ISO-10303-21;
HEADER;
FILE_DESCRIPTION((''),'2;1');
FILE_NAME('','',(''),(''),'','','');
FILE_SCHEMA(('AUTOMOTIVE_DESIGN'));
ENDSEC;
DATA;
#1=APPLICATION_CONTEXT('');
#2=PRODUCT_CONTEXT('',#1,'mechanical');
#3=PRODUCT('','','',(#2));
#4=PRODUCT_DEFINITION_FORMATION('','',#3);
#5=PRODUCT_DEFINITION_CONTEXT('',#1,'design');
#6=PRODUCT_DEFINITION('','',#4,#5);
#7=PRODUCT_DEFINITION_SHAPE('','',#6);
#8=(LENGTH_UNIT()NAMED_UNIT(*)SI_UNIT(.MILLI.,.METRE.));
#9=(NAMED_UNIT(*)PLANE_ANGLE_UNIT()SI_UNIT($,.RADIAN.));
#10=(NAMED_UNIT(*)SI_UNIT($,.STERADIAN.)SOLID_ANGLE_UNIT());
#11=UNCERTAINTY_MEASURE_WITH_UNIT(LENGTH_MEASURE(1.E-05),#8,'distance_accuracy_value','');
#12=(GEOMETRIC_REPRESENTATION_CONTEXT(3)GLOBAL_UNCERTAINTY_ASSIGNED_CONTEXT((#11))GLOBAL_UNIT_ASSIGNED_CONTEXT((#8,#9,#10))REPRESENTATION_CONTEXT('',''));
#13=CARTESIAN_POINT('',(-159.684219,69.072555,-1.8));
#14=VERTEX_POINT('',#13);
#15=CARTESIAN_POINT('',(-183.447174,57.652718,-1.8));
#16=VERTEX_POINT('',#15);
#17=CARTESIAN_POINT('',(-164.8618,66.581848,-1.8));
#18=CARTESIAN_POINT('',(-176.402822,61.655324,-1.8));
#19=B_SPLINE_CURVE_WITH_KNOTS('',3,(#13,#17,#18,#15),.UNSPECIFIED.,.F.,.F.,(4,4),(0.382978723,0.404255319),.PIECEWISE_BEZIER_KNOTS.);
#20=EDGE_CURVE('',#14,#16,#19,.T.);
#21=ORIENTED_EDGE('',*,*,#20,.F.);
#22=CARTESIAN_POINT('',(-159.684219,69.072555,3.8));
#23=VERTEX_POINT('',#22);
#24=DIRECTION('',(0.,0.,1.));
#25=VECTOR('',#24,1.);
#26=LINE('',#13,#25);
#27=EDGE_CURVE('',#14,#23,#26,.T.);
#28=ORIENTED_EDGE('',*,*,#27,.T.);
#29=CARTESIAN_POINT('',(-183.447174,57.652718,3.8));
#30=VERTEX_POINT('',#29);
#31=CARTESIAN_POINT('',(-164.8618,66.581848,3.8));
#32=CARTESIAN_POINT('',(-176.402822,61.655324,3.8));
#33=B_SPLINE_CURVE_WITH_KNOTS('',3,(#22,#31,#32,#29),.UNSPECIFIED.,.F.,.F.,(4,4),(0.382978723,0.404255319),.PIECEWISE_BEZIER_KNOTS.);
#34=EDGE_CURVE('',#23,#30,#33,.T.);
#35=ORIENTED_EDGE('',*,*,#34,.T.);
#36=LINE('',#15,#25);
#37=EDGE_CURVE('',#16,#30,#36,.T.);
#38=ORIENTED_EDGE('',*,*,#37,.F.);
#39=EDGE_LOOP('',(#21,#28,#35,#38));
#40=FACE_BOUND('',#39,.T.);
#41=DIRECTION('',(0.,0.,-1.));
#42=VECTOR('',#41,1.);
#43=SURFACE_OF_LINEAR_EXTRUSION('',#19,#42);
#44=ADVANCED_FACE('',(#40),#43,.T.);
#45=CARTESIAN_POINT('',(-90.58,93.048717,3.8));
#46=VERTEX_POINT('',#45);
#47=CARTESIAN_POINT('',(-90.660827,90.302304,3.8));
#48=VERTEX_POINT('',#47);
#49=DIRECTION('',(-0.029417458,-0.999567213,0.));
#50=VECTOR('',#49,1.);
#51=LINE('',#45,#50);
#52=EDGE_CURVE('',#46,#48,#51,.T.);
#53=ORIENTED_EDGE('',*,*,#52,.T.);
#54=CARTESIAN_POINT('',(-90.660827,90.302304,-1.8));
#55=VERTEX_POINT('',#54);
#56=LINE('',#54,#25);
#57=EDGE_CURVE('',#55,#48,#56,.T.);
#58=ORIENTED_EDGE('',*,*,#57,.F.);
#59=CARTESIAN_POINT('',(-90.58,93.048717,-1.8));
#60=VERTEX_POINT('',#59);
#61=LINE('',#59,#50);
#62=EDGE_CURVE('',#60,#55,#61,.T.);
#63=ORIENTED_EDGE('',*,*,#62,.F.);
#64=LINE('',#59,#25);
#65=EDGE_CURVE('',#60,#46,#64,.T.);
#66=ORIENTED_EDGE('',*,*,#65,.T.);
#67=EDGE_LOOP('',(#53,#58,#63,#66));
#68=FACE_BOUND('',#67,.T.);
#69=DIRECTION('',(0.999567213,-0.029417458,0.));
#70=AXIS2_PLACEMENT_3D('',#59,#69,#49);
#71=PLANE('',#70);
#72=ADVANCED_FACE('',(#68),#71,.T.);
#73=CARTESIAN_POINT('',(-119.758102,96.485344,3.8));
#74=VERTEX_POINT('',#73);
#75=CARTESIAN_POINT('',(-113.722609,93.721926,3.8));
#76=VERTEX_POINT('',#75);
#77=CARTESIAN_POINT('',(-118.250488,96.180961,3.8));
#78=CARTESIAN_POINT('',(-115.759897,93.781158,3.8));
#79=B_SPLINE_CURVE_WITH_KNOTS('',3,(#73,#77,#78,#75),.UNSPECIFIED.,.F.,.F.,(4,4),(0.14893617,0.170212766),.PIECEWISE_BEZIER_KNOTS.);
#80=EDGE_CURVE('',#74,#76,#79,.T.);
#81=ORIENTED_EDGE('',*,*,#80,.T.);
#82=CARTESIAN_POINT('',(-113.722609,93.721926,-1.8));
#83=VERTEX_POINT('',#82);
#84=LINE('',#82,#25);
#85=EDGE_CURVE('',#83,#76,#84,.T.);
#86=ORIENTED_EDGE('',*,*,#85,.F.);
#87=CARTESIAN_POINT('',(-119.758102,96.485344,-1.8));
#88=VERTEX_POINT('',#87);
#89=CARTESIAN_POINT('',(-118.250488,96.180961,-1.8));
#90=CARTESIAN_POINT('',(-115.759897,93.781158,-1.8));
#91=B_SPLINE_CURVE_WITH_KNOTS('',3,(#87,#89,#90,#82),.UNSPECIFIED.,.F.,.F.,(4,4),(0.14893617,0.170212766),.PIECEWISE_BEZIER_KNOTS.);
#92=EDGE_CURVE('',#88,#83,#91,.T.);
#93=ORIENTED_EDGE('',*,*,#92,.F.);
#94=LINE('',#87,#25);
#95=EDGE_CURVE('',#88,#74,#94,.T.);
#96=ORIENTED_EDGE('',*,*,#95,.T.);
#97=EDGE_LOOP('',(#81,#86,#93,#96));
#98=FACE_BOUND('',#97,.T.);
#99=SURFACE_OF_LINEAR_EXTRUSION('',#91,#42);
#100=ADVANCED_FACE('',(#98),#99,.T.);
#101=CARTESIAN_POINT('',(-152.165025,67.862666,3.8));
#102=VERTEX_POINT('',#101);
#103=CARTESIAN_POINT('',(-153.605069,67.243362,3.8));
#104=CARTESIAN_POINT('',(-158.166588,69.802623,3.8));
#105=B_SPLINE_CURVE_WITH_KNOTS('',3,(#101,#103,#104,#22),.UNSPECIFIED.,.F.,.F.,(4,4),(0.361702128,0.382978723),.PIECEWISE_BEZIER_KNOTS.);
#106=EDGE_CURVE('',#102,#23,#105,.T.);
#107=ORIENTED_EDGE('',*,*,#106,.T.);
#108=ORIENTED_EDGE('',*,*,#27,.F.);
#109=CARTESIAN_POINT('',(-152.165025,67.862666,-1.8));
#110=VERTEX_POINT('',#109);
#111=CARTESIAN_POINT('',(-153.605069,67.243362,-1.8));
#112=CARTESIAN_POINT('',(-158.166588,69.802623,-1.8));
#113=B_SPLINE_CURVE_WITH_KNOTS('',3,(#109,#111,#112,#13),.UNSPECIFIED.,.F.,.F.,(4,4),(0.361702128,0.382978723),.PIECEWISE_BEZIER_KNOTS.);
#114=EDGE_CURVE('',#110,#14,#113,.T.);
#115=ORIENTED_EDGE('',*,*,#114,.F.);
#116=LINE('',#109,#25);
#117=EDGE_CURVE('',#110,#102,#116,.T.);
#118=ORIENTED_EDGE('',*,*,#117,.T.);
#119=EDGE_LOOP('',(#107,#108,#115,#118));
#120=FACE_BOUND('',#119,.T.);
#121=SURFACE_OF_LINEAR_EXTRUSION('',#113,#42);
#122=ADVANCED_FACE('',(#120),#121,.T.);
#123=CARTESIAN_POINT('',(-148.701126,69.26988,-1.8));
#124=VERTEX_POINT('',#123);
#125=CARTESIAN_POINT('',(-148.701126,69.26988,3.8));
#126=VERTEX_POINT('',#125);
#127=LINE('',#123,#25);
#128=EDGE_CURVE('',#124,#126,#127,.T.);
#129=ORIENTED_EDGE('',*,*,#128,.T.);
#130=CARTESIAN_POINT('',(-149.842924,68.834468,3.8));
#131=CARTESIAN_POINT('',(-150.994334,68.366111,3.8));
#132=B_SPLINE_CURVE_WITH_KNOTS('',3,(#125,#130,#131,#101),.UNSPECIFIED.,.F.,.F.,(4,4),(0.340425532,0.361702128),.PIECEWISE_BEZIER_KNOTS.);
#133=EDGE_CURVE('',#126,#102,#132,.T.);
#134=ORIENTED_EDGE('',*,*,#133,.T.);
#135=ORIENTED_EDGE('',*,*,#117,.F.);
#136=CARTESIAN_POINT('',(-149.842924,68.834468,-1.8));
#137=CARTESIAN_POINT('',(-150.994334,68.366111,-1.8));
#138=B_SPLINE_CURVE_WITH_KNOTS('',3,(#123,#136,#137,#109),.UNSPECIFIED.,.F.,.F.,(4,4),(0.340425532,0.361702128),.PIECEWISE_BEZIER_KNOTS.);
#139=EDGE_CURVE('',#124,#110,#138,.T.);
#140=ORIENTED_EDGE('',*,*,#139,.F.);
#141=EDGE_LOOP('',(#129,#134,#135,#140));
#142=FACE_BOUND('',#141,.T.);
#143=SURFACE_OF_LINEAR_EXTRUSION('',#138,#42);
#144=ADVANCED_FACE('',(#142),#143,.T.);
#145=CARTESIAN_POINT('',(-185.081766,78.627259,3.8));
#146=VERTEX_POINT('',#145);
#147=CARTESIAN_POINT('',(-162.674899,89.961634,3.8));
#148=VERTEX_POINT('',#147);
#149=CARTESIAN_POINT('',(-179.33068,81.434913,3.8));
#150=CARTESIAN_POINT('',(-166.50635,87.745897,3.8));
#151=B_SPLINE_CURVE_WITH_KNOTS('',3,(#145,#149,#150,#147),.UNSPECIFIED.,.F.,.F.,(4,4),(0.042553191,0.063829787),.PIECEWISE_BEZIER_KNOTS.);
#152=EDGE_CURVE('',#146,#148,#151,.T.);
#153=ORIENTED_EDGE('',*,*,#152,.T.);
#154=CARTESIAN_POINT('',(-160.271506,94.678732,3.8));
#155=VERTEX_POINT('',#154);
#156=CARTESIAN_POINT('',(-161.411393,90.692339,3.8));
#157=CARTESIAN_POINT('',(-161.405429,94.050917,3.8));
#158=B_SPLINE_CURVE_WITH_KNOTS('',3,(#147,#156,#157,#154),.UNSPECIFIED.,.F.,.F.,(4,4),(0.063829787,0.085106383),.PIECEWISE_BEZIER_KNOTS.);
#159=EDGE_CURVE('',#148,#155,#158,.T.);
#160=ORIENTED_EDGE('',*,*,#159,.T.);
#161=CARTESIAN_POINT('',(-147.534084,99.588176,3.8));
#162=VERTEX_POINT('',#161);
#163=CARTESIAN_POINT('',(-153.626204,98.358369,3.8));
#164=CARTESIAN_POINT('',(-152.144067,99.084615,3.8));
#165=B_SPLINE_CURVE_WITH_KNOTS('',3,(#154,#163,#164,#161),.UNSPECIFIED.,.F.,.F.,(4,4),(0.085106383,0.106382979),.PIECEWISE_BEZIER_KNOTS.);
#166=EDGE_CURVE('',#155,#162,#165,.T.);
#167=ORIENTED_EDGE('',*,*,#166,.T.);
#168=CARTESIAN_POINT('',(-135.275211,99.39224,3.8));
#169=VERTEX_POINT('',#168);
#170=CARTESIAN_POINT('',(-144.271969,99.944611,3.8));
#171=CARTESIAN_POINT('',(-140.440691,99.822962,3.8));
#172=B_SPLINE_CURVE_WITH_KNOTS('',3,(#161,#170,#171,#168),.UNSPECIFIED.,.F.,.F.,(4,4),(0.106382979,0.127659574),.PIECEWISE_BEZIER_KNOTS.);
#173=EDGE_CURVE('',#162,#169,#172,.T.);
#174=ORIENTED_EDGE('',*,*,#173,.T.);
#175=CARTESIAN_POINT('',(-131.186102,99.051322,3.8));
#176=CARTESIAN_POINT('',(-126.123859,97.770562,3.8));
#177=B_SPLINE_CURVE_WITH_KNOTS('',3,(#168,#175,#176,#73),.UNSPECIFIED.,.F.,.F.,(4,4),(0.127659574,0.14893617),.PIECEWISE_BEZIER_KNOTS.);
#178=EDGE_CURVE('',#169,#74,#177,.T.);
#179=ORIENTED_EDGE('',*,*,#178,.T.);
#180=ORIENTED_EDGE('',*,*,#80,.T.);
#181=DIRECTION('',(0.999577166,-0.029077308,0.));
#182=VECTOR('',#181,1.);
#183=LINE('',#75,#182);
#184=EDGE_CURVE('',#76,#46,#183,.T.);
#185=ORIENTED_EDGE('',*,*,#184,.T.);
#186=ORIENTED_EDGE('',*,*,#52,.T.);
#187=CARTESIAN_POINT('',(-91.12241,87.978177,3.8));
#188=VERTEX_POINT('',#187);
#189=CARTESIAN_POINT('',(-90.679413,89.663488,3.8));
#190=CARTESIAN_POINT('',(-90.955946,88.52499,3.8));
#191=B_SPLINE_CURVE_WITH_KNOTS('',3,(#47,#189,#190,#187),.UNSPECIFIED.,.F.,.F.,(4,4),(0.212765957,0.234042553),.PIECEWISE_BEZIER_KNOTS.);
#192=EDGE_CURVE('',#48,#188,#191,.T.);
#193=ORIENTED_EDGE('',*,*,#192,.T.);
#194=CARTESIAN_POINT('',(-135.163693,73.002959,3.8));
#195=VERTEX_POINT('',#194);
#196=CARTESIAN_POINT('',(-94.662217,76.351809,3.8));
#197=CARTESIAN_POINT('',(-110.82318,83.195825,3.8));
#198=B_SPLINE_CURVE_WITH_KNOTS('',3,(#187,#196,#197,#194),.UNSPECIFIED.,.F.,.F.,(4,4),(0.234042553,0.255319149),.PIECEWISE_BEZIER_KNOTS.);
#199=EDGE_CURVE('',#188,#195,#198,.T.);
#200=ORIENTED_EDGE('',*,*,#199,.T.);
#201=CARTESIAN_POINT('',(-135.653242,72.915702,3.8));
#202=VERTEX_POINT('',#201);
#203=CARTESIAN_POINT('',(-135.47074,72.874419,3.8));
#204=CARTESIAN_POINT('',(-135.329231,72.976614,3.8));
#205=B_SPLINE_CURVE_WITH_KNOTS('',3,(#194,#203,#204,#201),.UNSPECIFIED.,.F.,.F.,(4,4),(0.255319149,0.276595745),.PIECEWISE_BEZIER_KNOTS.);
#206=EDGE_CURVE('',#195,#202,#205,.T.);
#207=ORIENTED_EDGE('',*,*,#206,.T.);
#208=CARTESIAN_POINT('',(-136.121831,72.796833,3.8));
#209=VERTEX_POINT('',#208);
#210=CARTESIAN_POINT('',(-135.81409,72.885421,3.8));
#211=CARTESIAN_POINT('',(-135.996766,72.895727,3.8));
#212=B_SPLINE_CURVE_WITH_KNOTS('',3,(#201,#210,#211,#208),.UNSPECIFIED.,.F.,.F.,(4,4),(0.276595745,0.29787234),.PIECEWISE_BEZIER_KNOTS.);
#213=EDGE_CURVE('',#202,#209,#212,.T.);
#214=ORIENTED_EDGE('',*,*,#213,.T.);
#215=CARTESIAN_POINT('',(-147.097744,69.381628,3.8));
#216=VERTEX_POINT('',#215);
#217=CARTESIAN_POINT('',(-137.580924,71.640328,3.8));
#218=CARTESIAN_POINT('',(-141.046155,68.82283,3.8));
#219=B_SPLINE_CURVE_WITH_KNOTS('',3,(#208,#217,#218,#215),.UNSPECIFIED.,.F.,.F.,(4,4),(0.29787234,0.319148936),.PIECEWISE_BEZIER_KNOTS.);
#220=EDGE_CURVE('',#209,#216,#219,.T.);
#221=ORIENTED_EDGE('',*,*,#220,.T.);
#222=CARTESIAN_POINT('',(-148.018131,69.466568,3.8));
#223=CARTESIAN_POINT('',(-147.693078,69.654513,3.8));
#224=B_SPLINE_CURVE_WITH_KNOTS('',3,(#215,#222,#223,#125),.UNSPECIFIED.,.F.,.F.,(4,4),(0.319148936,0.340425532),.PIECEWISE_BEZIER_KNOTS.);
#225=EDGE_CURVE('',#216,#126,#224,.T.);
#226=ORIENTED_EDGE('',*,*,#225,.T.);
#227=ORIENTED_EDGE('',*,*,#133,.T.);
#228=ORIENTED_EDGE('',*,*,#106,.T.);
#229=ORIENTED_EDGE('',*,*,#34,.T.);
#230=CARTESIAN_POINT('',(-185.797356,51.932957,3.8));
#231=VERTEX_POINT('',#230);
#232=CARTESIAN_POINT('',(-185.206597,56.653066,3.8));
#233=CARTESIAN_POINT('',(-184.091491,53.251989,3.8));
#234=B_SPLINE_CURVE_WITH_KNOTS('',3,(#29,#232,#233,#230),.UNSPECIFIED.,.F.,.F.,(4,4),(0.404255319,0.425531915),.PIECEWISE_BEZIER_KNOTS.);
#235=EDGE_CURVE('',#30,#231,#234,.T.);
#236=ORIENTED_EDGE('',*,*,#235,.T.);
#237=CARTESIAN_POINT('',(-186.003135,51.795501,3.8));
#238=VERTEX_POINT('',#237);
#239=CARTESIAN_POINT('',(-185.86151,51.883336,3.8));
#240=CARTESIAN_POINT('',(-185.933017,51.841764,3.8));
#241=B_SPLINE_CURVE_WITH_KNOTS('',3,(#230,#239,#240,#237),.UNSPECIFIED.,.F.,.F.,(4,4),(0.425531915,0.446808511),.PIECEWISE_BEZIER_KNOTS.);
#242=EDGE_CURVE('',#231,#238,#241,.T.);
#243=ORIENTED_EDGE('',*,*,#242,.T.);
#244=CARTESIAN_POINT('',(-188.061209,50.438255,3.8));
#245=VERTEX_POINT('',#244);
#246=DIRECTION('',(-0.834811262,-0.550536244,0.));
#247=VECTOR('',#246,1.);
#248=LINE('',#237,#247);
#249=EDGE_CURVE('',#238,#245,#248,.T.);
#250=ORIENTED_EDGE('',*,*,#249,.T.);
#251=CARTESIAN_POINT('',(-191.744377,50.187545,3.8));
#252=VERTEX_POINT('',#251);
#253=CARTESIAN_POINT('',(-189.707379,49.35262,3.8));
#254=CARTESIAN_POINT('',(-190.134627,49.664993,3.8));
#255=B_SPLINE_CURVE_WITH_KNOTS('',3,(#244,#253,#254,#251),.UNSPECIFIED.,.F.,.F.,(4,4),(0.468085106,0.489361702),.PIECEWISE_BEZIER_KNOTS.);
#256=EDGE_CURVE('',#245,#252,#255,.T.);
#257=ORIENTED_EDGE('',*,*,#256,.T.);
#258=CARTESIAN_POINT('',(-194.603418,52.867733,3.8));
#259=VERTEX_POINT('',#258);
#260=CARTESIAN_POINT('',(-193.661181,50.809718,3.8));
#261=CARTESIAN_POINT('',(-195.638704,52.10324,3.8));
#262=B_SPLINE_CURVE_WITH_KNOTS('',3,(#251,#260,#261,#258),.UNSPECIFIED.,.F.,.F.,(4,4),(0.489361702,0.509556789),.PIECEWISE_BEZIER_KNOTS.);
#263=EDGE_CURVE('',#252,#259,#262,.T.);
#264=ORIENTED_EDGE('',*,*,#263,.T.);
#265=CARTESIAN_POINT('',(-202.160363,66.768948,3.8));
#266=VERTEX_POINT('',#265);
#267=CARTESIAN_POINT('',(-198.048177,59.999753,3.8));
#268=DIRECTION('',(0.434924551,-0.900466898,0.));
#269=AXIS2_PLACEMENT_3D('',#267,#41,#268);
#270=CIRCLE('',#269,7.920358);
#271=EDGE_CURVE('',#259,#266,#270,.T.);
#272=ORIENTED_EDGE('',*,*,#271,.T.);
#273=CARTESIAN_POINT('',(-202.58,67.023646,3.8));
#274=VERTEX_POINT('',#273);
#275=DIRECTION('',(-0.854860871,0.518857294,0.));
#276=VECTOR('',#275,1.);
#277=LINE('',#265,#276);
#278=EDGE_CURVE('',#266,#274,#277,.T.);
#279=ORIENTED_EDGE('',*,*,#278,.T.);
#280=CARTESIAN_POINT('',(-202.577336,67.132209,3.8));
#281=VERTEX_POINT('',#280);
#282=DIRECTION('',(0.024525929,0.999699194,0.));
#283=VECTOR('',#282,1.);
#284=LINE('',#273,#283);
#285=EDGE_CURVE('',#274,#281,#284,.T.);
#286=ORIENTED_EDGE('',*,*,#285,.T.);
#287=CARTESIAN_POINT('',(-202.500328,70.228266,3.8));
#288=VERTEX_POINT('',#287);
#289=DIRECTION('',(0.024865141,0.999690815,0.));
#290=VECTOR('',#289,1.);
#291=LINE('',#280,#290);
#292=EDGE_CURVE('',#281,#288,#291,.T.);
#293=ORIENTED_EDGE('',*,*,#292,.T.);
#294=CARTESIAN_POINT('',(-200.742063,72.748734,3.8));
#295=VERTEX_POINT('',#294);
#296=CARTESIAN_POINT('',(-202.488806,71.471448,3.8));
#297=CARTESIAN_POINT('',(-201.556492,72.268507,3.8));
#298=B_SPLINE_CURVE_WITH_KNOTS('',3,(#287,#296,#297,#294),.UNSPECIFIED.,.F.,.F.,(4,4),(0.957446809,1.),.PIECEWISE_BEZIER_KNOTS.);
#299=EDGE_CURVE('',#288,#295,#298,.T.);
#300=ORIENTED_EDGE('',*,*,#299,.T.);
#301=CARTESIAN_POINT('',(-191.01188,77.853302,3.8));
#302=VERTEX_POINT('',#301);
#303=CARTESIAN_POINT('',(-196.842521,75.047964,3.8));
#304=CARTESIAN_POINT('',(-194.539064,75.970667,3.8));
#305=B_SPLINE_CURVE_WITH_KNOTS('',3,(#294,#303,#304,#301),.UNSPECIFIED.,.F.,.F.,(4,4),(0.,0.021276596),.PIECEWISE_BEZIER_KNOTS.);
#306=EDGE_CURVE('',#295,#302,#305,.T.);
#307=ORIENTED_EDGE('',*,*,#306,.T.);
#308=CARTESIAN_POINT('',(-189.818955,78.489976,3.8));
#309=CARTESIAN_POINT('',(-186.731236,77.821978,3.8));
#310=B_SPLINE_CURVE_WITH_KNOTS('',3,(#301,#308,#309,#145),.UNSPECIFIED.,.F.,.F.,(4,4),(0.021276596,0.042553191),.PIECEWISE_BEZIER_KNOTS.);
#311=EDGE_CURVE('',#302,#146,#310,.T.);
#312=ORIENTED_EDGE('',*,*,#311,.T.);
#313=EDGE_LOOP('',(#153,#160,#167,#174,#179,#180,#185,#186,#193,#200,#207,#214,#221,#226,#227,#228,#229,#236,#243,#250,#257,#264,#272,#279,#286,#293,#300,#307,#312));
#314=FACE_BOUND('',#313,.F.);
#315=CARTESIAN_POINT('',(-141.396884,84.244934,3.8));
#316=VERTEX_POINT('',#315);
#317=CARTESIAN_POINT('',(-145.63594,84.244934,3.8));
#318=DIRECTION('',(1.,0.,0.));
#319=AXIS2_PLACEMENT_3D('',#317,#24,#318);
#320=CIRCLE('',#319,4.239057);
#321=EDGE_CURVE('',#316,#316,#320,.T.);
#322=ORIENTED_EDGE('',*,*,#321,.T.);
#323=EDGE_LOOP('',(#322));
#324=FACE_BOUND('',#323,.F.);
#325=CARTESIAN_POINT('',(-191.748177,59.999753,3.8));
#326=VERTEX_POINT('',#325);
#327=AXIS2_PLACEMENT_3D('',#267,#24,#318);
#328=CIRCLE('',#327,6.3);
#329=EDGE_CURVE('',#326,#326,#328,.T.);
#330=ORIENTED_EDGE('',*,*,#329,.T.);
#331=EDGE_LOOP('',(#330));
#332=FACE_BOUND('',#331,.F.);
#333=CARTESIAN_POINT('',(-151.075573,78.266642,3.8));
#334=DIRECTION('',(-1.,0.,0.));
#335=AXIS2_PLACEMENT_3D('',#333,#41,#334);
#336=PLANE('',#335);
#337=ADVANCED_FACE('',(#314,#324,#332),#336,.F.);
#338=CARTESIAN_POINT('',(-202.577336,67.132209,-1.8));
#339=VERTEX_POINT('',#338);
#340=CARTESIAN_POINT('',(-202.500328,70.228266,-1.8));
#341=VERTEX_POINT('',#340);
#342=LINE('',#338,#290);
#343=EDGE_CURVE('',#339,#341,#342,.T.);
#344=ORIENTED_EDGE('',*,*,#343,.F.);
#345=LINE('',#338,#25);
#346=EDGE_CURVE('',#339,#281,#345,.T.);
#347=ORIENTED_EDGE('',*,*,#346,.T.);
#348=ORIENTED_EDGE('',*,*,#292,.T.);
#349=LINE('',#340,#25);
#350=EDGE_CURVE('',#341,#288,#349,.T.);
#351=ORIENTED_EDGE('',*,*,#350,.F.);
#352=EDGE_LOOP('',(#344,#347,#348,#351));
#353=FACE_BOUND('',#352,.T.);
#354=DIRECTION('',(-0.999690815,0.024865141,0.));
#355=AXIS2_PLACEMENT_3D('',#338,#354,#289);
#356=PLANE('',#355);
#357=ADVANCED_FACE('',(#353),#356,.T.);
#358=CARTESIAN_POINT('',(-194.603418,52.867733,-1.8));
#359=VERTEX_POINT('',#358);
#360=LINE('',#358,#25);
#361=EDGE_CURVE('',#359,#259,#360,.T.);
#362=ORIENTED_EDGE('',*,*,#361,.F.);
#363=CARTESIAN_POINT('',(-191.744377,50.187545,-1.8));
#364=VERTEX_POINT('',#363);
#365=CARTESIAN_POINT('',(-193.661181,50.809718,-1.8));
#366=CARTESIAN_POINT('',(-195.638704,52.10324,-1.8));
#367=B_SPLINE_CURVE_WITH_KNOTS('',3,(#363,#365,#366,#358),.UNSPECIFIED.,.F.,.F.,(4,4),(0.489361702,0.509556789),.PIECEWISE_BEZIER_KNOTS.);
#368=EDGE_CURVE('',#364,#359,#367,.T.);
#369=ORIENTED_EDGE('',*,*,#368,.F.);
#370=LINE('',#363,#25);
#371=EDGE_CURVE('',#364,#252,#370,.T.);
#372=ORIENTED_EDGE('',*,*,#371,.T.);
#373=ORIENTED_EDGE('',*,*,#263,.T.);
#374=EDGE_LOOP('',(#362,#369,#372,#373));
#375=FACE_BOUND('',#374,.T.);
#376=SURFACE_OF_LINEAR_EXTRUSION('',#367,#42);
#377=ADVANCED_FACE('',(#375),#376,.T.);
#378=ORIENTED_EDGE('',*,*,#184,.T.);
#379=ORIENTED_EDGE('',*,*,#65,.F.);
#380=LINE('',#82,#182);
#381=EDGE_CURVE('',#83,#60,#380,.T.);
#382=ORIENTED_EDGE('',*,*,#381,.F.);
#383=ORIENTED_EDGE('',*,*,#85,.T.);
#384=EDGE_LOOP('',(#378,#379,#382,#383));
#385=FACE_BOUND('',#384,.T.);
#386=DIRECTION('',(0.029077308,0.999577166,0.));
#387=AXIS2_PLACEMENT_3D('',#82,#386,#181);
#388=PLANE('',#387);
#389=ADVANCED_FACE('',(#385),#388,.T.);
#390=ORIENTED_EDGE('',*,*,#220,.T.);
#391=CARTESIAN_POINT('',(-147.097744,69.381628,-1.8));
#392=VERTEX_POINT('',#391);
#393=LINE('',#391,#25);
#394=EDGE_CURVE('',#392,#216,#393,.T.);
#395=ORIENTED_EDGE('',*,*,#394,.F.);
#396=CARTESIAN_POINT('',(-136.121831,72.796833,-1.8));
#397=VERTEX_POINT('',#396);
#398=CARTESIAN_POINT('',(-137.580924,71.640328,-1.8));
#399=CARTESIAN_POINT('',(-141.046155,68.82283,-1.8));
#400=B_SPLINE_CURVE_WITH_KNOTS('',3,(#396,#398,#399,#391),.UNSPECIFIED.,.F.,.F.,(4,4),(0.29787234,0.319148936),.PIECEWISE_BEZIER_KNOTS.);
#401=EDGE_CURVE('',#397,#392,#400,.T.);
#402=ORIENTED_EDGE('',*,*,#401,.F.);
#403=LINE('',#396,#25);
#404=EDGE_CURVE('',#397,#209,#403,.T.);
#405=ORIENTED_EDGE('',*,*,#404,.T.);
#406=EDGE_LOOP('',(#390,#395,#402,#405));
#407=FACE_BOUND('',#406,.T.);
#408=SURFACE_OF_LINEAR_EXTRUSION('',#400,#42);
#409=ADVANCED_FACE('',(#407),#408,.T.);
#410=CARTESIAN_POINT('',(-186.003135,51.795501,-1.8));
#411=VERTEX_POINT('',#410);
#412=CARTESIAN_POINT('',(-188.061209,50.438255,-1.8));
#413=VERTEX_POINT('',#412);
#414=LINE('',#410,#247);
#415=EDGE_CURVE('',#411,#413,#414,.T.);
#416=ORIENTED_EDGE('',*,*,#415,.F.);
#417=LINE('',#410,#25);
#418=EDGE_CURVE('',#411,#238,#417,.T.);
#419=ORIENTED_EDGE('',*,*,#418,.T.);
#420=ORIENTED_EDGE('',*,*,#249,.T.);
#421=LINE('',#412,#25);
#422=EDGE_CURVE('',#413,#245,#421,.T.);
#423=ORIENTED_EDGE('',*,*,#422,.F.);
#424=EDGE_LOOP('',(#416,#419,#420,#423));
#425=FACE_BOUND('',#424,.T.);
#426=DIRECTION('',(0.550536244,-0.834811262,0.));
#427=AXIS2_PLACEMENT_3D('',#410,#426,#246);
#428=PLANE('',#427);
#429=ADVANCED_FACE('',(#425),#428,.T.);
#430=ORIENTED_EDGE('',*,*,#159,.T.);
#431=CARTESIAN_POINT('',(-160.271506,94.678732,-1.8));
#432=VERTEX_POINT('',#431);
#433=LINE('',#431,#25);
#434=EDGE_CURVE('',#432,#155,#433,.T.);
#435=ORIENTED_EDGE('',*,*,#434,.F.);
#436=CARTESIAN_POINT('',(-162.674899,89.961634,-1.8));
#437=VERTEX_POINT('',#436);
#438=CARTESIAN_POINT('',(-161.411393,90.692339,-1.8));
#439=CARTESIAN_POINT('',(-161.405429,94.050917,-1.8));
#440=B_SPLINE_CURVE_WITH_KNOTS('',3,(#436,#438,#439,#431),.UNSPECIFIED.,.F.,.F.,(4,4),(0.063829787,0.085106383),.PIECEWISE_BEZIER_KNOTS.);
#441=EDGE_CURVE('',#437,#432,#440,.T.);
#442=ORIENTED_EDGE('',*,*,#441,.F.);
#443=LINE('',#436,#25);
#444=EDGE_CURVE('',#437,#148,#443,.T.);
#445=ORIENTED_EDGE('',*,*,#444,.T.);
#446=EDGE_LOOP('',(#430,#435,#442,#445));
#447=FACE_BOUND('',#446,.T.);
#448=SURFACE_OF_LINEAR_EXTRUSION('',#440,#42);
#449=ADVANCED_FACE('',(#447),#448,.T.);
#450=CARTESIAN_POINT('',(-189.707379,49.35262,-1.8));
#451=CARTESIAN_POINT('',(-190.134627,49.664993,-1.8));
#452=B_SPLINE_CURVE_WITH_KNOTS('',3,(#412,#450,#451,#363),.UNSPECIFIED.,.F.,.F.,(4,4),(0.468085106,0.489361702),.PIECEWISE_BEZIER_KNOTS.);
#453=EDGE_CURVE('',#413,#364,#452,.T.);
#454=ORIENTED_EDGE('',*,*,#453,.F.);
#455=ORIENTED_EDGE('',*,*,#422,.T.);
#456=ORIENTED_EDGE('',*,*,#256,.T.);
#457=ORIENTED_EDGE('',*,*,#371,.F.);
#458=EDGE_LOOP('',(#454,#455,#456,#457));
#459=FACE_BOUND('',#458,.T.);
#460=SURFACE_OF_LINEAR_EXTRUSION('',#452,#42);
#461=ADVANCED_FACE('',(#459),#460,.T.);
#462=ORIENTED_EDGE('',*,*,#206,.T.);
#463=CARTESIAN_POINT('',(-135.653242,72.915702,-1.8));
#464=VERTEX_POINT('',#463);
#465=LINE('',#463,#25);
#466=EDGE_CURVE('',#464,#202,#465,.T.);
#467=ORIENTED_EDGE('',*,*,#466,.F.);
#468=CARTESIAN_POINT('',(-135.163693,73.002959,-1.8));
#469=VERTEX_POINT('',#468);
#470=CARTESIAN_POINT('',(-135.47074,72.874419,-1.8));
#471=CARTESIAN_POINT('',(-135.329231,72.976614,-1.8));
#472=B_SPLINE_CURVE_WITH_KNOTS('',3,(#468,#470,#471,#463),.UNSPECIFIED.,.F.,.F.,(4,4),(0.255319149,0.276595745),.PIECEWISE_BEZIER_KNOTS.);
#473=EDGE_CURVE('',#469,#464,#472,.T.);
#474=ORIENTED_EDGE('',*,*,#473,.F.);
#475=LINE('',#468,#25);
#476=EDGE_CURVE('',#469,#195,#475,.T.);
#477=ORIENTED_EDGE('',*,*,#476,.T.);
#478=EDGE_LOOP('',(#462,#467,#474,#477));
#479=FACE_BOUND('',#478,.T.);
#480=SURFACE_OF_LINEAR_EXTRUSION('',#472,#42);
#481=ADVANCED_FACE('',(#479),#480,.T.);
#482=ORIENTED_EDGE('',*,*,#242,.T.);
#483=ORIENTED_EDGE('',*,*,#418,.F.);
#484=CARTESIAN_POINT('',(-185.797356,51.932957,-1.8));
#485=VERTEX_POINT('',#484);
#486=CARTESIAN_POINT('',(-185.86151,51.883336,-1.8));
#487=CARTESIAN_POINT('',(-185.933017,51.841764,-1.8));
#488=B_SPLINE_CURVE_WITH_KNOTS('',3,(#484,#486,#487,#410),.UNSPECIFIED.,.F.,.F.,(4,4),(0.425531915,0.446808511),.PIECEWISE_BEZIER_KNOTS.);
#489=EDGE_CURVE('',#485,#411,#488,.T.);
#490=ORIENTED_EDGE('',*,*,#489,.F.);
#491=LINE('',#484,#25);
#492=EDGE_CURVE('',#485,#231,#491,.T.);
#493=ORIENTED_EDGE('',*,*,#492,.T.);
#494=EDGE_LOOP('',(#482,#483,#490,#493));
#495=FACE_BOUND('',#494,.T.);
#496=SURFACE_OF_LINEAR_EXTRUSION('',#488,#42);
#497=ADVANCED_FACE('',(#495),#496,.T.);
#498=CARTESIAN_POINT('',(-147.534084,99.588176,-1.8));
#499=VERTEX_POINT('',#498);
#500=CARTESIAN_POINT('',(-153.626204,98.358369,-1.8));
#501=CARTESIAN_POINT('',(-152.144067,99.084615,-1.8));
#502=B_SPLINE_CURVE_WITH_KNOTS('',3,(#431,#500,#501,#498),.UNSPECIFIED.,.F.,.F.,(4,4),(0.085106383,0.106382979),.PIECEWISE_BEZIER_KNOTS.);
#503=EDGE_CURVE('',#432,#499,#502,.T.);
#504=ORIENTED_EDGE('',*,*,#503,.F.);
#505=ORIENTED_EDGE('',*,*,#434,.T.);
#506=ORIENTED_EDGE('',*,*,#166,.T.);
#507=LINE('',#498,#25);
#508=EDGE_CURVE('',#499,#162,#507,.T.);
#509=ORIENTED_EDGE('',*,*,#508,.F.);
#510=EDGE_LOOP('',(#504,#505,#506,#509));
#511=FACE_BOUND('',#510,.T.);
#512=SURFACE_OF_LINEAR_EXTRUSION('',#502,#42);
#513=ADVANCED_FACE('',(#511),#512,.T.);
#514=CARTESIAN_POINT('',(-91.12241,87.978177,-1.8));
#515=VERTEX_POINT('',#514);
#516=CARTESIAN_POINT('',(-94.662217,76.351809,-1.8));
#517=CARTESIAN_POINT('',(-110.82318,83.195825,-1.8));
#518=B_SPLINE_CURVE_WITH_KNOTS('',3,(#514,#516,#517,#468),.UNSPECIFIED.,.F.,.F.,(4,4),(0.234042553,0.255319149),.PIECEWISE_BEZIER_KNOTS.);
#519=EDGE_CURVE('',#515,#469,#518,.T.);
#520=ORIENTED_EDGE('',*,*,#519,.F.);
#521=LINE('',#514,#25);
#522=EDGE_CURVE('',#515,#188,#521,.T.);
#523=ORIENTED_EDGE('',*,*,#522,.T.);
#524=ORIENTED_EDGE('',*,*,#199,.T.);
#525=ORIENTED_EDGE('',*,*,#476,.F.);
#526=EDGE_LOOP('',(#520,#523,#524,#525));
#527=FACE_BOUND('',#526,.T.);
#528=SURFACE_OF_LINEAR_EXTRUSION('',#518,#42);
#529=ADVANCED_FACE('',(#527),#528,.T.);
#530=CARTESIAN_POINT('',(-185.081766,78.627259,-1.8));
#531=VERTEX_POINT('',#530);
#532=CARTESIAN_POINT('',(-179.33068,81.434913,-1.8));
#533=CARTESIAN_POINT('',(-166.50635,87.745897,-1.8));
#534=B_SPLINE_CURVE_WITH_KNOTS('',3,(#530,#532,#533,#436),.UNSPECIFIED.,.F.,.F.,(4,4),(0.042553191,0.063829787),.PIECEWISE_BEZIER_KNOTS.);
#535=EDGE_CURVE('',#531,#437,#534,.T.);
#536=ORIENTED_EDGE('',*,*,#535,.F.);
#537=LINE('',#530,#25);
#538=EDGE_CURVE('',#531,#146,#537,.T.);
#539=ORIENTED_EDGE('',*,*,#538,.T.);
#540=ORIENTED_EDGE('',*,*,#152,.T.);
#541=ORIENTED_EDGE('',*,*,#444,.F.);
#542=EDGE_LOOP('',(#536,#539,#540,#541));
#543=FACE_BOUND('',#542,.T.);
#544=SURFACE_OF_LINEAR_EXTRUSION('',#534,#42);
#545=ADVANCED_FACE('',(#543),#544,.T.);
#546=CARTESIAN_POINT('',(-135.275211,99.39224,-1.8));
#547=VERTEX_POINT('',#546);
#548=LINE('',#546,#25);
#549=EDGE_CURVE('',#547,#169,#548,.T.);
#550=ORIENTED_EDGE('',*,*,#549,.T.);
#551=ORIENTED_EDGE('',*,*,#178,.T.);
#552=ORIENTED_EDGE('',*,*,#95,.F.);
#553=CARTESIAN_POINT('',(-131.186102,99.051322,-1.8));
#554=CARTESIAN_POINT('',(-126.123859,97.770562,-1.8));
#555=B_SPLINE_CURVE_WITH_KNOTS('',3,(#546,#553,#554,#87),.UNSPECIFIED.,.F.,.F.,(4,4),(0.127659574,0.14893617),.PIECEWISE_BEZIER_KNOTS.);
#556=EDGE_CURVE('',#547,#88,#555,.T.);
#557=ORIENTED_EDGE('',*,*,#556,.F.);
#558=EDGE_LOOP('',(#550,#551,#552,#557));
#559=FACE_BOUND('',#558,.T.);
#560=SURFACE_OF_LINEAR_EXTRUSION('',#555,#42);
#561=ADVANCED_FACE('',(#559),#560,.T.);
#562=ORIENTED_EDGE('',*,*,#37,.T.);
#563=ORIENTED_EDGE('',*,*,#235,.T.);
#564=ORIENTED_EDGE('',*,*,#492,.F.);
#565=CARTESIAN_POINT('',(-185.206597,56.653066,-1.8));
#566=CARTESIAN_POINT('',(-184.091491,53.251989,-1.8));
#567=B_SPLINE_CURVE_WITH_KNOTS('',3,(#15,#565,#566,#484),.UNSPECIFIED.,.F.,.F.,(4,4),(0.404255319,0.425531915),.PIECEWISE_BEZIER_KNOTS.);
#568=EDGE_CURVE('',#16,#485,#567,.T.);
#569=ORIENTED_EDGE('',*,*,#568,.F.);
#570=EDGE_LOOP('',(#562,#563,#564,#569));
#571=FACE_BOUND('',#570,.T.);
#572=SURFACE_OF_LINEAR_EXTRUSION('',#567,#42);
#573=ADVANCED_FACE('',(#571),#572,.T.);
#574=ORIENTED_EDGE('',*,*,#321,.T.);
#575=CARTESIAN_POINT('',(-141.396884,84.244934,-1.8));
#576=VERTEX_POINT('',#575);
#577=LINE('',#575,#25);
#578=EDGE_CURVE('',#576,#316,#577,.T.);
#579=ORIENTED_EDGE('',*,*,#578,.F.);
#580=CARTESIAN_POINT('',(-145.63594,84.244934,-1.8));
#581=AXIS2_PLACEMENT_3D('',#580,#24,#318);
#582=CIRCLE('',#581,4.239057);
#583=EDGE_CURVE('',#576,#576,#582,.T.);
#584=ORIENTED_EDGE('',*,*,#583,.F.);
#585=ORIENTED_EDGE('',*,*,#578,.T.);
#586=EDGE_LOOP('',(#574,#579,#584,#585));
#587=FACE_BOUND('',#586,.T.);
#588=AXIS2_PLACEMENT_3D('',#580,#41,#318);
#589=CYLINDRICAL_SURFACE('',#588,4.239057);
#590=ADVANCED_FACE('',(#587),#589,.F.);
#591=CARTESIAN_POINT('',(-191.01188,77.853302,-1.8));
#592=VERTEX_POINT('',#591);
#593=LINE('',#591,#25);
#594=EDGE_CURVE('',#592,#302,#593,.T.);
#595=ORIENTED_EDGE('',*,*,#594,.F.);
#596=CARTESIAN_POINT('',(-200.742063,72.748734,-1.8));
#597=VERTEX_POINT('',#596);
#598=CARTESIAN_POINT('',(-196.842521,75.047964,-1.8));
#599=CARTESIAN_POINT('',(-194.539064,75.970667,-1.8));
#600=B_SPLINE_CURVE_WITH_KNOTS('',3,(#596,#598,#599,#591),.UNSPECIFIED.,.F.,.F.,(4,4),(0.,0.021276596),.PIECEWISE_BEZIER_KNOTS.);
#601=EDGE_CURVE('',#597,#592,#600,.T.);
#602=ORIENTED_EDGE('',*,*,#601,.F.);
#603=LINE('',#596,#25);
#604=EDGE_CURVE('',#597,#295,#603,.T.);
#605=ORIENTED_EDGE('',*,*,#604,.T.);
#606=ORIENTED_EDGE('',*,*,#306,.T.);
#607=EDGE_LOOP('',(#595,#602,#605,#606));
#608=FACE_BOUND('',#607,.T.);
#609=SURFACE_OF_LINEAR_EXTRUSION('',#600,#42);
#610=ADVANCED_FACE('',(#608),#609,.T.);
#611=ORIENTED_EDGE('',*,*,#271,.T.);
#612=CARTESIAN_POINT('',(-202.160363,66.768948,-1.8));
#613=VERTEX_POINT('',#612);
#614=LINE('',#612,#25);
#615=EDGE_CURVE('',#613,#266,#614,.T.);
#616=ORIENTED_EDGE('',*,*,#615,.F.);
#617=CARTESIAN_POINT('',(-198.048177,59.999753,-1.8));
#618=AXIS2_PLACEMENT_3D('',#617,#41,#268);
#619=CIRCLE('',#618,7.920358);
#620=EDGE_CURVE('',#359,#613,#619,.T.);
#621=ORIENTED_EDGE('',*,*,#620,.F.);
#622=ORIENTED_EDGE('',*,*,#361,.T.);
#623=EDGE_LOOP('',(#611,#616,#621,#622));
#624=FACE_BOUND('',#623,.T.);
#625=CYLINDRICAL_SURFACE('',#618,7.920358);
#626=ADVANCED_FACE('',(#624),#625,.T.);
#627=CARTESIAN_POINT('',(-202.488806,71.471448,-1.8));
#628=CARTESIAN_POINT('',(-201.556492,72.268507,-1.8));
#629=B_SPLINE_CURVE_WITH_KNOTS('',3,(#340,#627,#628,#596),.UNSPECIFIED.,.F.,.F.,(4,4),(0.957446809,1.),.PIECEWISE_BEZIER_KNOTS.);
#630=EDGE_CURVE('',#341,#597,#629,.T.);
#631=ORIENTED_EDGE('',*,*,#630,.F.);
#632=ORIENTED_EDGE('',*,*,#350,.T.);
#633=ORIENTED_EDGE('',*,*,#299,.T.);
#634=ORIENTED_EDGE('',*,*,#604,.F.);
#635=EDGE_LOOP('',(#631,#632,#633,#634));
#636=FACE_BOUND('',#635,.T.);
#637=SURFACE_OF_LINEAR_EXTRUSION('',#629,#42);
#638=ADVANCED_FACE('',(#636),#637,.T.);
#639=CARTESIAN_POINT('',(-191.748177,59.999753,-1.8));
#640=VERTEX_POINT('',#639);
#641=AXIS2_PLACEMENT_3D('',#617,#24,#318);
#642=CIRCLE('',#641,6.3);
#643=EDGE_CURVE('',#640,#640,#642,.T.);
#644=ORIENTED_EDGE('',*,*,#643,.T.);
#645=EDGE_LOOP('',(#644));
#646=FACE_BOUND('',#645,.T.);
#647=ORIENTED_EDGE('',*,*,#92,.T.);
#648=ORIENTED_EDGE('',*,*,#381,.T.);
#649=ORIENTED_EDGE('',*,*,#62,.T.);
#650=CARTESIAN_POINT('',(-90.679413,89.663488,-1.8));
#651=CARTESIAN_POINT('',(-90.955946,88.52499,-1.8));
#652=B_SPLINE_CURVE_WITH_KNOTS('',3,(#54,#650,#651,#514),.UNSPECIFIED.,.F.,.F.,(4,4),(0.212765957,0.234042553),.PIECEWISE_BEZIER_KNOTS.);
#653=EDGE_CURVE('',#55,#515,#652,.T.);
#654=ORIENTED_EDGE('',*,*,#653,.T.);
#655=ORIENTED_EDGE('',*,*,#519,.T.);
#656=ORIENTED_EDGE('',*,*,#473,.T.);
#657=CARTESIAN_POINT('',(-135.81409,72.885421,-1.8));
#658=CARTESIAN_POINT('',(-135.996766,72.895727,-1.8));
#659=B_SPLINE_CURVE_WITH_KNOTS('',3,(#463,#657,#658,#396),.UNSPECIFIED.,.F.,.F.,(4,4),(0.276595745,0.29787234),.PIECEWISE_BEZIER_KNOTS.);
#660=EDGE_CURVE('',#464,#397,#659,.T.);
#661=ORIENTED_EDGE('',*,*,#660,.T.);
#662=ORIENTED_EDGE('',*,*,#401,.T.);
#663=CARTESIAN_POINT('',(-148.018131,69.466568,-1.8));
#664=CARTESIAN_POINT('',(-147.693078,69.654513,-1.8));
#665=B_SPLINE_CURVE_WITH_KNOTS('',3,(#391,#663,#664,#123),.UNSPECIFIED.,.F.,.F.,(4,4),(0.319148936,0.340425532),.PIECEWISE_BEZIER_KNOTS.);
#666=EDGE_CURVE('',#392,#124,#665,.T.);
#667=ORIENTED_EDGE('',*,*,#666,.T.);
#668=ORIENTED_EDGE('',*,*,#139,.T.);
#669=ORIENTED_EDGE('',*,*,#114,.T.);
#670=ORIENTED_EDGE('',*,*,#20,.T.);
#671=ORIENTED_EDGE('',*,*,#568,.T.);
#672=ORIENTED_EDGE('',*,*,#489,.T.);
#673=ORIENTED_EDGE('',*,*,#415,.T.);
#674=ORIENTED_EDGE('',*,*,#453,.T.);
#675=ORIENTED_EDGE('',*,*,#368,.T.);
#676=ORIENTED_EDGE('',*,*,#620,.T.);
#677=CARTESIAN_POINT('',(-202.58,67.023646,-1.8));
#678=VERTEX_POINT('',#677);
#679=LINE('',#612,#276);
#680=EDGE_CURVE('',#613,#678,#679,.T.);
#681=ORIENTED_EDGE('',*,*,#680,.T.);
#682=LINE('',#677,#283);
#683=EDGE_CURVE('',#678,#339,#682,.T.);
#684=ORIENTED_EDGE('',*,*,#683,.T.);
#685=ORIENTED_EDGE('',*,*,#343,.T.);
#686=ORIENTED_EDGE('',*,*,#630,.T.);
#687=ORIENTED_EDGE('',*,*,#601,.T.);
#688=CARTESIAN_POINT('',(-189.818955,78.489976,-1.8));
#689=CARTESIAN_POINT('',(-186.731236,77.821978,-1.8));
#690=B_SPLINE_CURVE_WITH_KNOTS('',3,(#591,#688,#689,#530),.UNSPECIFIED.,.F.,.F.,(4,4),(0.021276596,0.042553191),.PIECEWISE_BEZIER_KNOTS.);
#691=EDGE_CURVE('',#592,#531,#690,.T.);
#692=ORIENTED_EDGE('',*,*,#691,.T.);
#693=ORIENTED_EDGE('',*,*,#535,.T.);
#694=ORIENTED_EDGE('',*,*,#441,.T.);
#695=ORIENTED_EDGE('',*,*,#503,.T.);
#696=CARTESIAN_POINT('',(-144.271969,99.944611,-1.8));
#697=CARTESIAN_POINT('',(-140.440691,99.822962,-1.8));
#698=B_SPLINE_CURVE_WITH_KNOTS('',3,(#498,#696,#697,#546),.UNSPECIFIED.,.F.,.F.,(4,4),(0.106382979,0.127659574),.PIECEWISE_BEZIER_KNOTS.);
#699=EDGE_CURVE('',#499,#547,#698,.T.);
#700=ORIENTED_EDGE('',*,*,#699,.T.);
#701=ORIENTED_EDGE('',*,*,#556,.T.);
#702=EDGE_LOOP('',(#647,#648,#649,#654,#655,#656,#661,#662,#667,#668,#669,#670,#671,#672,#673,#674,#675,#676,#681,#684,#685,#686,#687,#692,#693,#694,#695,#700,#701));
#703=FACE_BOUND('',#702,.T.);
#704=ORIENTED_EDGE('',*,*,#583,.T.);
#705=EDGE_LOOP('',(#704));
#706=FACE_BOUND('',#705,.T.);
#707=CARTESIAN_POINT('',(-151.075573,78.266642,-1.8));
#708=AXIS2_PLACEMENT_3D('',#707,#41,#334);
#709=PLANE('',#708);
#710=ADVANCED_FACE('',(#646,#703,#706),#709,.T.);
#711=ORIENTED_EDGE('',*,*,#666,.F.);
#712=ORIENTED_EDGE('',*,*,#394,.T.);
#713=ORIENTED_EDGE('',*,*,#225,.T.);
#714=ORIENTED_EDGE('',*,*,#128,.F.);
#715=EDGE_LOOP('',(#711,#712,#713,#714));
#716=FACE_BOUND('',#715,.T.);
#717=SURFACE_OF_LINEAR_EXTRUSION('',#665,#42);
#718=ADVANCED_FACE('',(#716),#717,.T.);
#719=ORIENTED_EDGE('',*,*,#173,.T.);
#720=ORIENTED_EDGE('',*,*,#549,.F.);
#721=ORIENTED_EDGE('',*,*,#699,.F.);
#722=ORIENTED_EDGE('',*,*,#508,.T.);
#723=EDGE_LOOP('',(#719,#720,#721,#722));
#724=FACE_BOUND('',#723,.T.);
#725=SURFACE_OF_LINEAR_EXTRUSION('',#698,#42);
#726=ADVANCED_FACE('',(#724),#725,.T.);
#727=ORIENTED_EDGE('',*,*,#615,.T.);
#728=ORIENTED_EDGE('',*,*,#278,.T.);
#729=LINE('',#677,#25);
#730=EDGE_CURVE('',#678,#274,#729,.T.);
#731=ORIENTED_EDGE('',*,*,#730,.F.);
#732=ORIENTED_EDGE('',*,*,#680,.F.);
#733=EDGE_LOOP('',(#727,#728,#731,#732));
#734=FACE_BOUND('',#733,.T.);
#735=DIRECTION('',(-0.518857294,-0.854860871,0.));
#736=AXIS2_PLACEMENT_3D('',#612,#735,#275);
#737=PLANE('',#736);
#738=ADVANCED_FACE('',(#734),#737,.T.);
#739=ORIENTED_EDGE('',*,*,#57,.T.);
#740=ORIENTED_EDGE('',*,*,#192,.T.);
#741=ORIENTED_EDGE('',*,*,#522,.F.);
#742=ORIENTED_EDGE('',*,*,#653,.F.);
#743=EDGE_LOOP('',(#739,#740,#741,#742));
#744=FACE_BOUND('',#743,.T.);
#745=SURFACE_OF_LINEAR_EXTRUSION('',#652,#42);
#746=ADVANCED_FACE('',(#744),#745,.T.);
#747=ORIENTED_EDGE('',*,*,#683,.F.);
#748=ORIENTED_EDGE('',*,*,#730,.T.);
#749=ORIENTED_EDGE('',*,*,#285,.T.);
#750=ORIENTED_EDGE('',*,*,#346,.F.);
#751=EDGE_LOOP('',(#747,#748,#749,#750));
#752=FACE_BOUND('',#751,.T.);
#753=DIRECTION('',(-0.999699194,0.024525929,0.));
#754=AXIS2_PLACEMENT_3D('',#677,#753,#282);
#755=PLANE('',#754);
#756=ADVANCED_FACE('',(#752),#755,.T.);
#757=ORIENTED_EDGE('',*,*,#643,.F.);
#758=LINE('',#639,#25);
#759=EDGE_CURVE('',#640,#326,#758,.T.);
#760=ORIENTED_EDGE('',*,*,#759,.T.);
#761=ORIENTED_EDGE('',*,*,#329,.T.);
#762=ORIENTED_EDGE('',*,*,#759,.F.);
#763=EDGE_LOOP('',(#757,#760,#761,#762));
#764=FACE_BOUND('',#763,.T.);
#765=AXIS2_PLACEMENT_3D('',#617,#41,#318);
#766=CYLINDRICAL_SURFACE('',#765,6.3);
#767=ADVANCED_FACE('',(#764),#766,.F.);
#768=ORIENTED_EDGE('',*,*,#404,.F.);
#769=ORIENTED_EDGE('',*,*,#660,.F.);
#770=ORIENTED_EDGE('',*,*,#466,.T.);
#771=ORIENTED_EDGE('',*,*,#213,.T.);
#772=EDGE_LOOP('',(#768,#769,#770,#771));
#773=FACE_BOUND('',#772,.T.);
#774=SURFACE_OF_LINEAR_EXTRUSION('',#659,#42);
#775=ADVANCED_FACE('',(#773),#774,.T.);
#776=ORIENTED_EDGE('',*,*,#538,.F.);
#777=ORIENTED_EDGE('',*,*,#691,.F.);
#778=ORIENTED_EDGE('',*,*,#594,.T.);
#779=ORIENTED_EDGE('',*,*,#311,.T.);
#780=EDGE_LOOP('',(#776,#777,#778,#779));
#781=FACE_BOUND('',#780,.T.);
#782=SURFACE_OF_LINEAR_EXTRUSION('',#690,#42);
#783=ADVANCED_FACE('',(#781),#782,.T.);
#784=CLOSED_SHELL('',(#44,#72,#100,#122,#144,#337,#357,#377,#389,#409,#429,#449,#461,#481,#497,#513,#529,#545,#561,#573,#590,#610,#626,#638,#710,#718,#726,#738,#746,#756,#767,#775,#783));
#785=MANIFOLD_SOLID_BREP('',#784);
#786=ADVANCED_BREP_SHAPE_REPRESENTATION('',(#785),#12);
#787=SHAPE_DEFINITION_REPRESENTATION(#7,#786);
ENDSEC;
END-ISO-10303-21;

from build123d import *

# Parameters (mm, degrees)
SKETCH1_R           = 1.513948887
SKETCH1_R_2         = 2.25
BOSS_EXTRUDE1_DEPTH = 2
SCALE1_SCALE        = 2.8


with BuildPart() as part:
    # Sketch1 → Boss-Extrude1 (new body)
    with BuildSketch(Plane.XY):
        with BuildLine():
            Line((-137.330840139, 84.740646997), (-129.065622639, 84.500215059))
            Line((-129.065622639, 84.500215059), (-129.094489584, 83.519353553))
            add(Edge.make_bspline(
                [(-129.094489584, 83.519353553), (-129.101127466, 83.291204798), (-129.199889222, 82.884598348), (-129.259340655, 82.689308143)],
                knots=[0.212765957, 0.212765957, 0.212765957, 0.212765957, 0.234042553, 0.234042553, 0.234042553, 0.234042553], degree=3))
            add(Edge.make_bspline(
                [(-129.259340655, 82.689308143), (-130.523557303, 78.537033893), (-136.295329969, 80.981325314), (-144.988370325, 77.341015795)],
                knots=[0.234042553, 0.234042553, 0.234042553, 0.234042553, 0.255319149, 0.255319149, 0.255319149, 0.255319149], degree=3))
            add(Edge.make_bspline(
                [(-144.988370325, 77.341015795), (-145.098029788, 77.295108948), (-145.047490899, 77.331606959), (-145.163209238, 77.309852904)],
                knots=[0.255319149, 0.255319149, 0.255319149, 0.255319149, 0.276595745, 0.276595745, 0.276595745, 0.276595745], degree=3))
            add(Edge.make_bspline(
                [(-145.163209238, 77.309852904), (-145.220654832, 77.299037913), (-145.285896319, 77.302718732), (-145.330562439, 77.26739941)],
                knots=[0.276595745, 0.276595745, 0.276595745, 0.276595745, 0.29787234, 0.29787234, 0.29787234, 0.29787234], degree=3))
            add(Edge.make_bspline(
                [(-145.330562439, 77.26739941), (-145.851667181, 76.854361866), (-147.089249586, 75.848112745), (-149.250531504, 76.047683454)],
                knots=[0.29787234, 0.29787234, 0.29787234, 0.29787234, 0.319148936, 0.319148936, 0.319148936, 0.319148936], degree=3))
            add(Edge.make_bspline(
                [(-149.250531504, 76.047683454), (-149.579241067, 76.078019194), (-149.46315051, 76.145142448), (-149.823167715, 76.007773448)],
                knots=[0.319148936, 0.319148936, 0.319148936, 0.319148936, 0.340425532, 0.340425532, 0.340425532, 0.340425532], degree=3))
            add(Edge.make_bspline(
                [(-149.823167715, 76.007773448), (-150.230952854, 75.852269176), (-150.642170668, 75.684998689), (-151.060274508, 75.505196874)],
                knots=[0.340425532, 0.340425532, 0.340425532, 0.340425532, 0.361702128, 0.361702128, 0.361702128, 0.361702128], degree=3))
            add(Edge.make_bspline(
                [(-151.060274508, 75.505196874), (-151.574575938, 75.284016862), (-153.203689978, 76.198038715), (-153.745700946, 75.937300235)],
                knots=[0.361702128, 0.361702128, 0.361702128, 0.361702128, 0.382978723, 0.382978723, 0.382978723, 0.382978723], degree=3))
            add(Edge.make_bspline(
                [(-153.745700946, 75.937300235), (-155.594836987, 75.047762033), (-159.716630745, 73.288289093), (-162.232470675, 71.858787121)],
                knots=[0.382978723, 0.382978723, 0.382978723, 0.382978723, 0.404255319, 0.404255319, 0.404255319, 0.404255319], degree=3))
            add(Edge.make_bspline(
                [(-162.232470675, 71.858787121), (-162.860836143, 71.501768336), (-162.462583912, 70.287097997), (-163.071821528, 69.816015174)],
                knots=[0.404255319, 0.404255319, 0.404255319, 0.404255319, 0.425531915, 0.425531915, 0.425531915, 0.425531915], degree=3))
            add(Edge.make_bspline(
                [(-163.071821528, 69.816015174), (-163.094733593, 69.798293477), (-163.120271861, 69.783446128), (-163.145313839, 69.766923799)],
                knots=[0.425531915, 0.425531915, 0.425531915, 0.425531915, 0.446808511, 0.446808511, 0.446808511, 0.446808511], degree=3))
            Line((-163.145313839, 69.766923799), (-163.880340349, 69.282192995))
            add(Edge.make_bspline(
                [(-163.880340349, 69.282192995), (-164.468258164, 68.894466252), (-164.620846731, 69.006028161), (-165.195757605, 69.192653966)],
                knots=[0.468085106, 0.468085106, 0.468085106, 0.468085106, 0.489361702, 0.489361702, 0.489361702, 0.489361702], degree=3))
            add(Edge.make_bspline(
                [(-165.195757605, 69.192653966), (-165.880330422, 69.414858475), (-166.586588499, 69.876830428), (-166.216843664, 70.149863853)],
                knots=[0.489361702, 0.489361702, 0.489361702, 0.489361702, 0.509556789, 0.509556789, 0.509556789, 0.509556789], degree=3))
            ThreePointArc((-166.216843664, 70.149863853), (-169.932333673, 71.346005011), (-168.915752591, 75.114583334))
            Line((-168.915752591, 75.114583334), (-169.065622639, 75.20554687))
            Line((-169.065622639, 75.20554687), (-169.064671417, 75.244319545))
            Line((-169.064671417, 75.244319545), (-169.037168666, 76.350054178))
            add(Edge.make_bspline(
                [(-169.037168666, 76.350054178), (-169.033053593, 76.794047826), (-168.700084206, 77.078711631), (-168.409216773, 77.250221263)],
                knots=[0.957446809, 0.957446809, 0.957446809, 0.957446809, 1, 1, 1, 1], degree=3))
            add(Edge.make_bspline(
                [(-168.409216773, 77.250221263), (-167.016522993, 78.071374807), (-166.193859899, 78.40091152), (-164.934151222, 79.073281388)],
                knots=[0, 0, 0, 0, 0.021276596, 0.021276596, 0.021276596, 0.021276596], degree=3))
            add(Edge.make_bspline(
                [(-164.934151222, 79.073281388), (-164.508106737, 79.300665029), (-163.405349845, 79.062094179), (-162.816253342, 79.349694368)],
                knots=[0.021276596, 0.021276596, 0.021276596, 0.021276596, 0.042553191, 0.042553191, 0.042553191, 0.042553191], degree=3))
            add(Edge.make_bspline(
                [(-162.816253342, 79.349694368), (-160.762294186, 80.3524281), (-156.1821764, 82.606350861), (-154.813800841, 83.397685633)],
                knots=[0.042553191, 0.042553191, 0.042553191, 0.042553191, 0.063829787, 0.063829787, 0.063829787, 0.063829787], degree=3))
            add(Edge.make_bspline(
                [(-154.813800841, 83.397685633), (-154.362548949, 83.658651579), (-154.360419036, 84.858143709), (-153.955446208, 85.0823635)],
                knots=[0.063829787, 0.063829787, 0.063829787, 0.063829787, 0.085106383, 0.085106383, 0.085106383, 0.085106383], degree=3))
            add(Edge.make_bspline(
                [(-153.955446208, 85.0823635), (-151.58212429, 86.396519351), (-151.052789401, 86.655893033), (-149.40636724, 86.835736205)],
                knots=[0.085106383, 0.085106383, 0.085106383, 0.085106383, 0.106382979, 0.106382979, 0.106382979, 0.106382979], degree=3))
            add(Edge.make_bspline(
                [(-149.40636724, 86.835736205), (-148.241325924, 86.963034649), (-146.873012401, 86.919588575), (-145.02819822, 86.765759283)],
                knots=[0.106382979, 0.106382979, 0.106382979, 0.106382979, 0.127659574, 0.127659574, 0.127659574, 0.127659574], degree=3))
            add(Edge.make_bspline(
                [(-145.02819822, 86.765759283), (-143.567802181, 86.644002746), (-141.759858228, 86.186588584), (-139.486373361, 85.727582157)],
                knots=[0.127659574, 0.127659574, 0.127659574, 0.127659574, 0.14893617, 0.14893617, 0.14893617, 0.14893617], degree=3))
            add(Edge.make_bspline(
                [(-139.486373361, 85.727582157), (-138.947939819, 85.618873917), (-138.058442974, 84.761801368), (-137.330840139, 84.740646997)],
                knots=[0.14893617, 0.14893617, 0.14893617, 0.14893617, 0.170212766, 0.170212766, 0.170212766, 0.170212766], degree=3))
        make_face()
        with Locations((-148.728458674, 81.356006962)):
            Circle(SKETCH1_R, mode=Mode.SUBTRACT)
        with Locations((-167.447114441, 72.697013944)):
            Circle(SKETCH1_R_2, mode=Mode.SUBTRACT)
    extrude(amount=BOSS_EXTRUDE1_DEPTH)


with BuildPart() as part_1:
    # Scale1: scaled about (-150.446524344, 79.751047586, 1)
    add(part.part.scale(SCALE1_SCALE).moved(Location((270.803743819, -143.551885655, -1.8))))


solid = part_1.part
